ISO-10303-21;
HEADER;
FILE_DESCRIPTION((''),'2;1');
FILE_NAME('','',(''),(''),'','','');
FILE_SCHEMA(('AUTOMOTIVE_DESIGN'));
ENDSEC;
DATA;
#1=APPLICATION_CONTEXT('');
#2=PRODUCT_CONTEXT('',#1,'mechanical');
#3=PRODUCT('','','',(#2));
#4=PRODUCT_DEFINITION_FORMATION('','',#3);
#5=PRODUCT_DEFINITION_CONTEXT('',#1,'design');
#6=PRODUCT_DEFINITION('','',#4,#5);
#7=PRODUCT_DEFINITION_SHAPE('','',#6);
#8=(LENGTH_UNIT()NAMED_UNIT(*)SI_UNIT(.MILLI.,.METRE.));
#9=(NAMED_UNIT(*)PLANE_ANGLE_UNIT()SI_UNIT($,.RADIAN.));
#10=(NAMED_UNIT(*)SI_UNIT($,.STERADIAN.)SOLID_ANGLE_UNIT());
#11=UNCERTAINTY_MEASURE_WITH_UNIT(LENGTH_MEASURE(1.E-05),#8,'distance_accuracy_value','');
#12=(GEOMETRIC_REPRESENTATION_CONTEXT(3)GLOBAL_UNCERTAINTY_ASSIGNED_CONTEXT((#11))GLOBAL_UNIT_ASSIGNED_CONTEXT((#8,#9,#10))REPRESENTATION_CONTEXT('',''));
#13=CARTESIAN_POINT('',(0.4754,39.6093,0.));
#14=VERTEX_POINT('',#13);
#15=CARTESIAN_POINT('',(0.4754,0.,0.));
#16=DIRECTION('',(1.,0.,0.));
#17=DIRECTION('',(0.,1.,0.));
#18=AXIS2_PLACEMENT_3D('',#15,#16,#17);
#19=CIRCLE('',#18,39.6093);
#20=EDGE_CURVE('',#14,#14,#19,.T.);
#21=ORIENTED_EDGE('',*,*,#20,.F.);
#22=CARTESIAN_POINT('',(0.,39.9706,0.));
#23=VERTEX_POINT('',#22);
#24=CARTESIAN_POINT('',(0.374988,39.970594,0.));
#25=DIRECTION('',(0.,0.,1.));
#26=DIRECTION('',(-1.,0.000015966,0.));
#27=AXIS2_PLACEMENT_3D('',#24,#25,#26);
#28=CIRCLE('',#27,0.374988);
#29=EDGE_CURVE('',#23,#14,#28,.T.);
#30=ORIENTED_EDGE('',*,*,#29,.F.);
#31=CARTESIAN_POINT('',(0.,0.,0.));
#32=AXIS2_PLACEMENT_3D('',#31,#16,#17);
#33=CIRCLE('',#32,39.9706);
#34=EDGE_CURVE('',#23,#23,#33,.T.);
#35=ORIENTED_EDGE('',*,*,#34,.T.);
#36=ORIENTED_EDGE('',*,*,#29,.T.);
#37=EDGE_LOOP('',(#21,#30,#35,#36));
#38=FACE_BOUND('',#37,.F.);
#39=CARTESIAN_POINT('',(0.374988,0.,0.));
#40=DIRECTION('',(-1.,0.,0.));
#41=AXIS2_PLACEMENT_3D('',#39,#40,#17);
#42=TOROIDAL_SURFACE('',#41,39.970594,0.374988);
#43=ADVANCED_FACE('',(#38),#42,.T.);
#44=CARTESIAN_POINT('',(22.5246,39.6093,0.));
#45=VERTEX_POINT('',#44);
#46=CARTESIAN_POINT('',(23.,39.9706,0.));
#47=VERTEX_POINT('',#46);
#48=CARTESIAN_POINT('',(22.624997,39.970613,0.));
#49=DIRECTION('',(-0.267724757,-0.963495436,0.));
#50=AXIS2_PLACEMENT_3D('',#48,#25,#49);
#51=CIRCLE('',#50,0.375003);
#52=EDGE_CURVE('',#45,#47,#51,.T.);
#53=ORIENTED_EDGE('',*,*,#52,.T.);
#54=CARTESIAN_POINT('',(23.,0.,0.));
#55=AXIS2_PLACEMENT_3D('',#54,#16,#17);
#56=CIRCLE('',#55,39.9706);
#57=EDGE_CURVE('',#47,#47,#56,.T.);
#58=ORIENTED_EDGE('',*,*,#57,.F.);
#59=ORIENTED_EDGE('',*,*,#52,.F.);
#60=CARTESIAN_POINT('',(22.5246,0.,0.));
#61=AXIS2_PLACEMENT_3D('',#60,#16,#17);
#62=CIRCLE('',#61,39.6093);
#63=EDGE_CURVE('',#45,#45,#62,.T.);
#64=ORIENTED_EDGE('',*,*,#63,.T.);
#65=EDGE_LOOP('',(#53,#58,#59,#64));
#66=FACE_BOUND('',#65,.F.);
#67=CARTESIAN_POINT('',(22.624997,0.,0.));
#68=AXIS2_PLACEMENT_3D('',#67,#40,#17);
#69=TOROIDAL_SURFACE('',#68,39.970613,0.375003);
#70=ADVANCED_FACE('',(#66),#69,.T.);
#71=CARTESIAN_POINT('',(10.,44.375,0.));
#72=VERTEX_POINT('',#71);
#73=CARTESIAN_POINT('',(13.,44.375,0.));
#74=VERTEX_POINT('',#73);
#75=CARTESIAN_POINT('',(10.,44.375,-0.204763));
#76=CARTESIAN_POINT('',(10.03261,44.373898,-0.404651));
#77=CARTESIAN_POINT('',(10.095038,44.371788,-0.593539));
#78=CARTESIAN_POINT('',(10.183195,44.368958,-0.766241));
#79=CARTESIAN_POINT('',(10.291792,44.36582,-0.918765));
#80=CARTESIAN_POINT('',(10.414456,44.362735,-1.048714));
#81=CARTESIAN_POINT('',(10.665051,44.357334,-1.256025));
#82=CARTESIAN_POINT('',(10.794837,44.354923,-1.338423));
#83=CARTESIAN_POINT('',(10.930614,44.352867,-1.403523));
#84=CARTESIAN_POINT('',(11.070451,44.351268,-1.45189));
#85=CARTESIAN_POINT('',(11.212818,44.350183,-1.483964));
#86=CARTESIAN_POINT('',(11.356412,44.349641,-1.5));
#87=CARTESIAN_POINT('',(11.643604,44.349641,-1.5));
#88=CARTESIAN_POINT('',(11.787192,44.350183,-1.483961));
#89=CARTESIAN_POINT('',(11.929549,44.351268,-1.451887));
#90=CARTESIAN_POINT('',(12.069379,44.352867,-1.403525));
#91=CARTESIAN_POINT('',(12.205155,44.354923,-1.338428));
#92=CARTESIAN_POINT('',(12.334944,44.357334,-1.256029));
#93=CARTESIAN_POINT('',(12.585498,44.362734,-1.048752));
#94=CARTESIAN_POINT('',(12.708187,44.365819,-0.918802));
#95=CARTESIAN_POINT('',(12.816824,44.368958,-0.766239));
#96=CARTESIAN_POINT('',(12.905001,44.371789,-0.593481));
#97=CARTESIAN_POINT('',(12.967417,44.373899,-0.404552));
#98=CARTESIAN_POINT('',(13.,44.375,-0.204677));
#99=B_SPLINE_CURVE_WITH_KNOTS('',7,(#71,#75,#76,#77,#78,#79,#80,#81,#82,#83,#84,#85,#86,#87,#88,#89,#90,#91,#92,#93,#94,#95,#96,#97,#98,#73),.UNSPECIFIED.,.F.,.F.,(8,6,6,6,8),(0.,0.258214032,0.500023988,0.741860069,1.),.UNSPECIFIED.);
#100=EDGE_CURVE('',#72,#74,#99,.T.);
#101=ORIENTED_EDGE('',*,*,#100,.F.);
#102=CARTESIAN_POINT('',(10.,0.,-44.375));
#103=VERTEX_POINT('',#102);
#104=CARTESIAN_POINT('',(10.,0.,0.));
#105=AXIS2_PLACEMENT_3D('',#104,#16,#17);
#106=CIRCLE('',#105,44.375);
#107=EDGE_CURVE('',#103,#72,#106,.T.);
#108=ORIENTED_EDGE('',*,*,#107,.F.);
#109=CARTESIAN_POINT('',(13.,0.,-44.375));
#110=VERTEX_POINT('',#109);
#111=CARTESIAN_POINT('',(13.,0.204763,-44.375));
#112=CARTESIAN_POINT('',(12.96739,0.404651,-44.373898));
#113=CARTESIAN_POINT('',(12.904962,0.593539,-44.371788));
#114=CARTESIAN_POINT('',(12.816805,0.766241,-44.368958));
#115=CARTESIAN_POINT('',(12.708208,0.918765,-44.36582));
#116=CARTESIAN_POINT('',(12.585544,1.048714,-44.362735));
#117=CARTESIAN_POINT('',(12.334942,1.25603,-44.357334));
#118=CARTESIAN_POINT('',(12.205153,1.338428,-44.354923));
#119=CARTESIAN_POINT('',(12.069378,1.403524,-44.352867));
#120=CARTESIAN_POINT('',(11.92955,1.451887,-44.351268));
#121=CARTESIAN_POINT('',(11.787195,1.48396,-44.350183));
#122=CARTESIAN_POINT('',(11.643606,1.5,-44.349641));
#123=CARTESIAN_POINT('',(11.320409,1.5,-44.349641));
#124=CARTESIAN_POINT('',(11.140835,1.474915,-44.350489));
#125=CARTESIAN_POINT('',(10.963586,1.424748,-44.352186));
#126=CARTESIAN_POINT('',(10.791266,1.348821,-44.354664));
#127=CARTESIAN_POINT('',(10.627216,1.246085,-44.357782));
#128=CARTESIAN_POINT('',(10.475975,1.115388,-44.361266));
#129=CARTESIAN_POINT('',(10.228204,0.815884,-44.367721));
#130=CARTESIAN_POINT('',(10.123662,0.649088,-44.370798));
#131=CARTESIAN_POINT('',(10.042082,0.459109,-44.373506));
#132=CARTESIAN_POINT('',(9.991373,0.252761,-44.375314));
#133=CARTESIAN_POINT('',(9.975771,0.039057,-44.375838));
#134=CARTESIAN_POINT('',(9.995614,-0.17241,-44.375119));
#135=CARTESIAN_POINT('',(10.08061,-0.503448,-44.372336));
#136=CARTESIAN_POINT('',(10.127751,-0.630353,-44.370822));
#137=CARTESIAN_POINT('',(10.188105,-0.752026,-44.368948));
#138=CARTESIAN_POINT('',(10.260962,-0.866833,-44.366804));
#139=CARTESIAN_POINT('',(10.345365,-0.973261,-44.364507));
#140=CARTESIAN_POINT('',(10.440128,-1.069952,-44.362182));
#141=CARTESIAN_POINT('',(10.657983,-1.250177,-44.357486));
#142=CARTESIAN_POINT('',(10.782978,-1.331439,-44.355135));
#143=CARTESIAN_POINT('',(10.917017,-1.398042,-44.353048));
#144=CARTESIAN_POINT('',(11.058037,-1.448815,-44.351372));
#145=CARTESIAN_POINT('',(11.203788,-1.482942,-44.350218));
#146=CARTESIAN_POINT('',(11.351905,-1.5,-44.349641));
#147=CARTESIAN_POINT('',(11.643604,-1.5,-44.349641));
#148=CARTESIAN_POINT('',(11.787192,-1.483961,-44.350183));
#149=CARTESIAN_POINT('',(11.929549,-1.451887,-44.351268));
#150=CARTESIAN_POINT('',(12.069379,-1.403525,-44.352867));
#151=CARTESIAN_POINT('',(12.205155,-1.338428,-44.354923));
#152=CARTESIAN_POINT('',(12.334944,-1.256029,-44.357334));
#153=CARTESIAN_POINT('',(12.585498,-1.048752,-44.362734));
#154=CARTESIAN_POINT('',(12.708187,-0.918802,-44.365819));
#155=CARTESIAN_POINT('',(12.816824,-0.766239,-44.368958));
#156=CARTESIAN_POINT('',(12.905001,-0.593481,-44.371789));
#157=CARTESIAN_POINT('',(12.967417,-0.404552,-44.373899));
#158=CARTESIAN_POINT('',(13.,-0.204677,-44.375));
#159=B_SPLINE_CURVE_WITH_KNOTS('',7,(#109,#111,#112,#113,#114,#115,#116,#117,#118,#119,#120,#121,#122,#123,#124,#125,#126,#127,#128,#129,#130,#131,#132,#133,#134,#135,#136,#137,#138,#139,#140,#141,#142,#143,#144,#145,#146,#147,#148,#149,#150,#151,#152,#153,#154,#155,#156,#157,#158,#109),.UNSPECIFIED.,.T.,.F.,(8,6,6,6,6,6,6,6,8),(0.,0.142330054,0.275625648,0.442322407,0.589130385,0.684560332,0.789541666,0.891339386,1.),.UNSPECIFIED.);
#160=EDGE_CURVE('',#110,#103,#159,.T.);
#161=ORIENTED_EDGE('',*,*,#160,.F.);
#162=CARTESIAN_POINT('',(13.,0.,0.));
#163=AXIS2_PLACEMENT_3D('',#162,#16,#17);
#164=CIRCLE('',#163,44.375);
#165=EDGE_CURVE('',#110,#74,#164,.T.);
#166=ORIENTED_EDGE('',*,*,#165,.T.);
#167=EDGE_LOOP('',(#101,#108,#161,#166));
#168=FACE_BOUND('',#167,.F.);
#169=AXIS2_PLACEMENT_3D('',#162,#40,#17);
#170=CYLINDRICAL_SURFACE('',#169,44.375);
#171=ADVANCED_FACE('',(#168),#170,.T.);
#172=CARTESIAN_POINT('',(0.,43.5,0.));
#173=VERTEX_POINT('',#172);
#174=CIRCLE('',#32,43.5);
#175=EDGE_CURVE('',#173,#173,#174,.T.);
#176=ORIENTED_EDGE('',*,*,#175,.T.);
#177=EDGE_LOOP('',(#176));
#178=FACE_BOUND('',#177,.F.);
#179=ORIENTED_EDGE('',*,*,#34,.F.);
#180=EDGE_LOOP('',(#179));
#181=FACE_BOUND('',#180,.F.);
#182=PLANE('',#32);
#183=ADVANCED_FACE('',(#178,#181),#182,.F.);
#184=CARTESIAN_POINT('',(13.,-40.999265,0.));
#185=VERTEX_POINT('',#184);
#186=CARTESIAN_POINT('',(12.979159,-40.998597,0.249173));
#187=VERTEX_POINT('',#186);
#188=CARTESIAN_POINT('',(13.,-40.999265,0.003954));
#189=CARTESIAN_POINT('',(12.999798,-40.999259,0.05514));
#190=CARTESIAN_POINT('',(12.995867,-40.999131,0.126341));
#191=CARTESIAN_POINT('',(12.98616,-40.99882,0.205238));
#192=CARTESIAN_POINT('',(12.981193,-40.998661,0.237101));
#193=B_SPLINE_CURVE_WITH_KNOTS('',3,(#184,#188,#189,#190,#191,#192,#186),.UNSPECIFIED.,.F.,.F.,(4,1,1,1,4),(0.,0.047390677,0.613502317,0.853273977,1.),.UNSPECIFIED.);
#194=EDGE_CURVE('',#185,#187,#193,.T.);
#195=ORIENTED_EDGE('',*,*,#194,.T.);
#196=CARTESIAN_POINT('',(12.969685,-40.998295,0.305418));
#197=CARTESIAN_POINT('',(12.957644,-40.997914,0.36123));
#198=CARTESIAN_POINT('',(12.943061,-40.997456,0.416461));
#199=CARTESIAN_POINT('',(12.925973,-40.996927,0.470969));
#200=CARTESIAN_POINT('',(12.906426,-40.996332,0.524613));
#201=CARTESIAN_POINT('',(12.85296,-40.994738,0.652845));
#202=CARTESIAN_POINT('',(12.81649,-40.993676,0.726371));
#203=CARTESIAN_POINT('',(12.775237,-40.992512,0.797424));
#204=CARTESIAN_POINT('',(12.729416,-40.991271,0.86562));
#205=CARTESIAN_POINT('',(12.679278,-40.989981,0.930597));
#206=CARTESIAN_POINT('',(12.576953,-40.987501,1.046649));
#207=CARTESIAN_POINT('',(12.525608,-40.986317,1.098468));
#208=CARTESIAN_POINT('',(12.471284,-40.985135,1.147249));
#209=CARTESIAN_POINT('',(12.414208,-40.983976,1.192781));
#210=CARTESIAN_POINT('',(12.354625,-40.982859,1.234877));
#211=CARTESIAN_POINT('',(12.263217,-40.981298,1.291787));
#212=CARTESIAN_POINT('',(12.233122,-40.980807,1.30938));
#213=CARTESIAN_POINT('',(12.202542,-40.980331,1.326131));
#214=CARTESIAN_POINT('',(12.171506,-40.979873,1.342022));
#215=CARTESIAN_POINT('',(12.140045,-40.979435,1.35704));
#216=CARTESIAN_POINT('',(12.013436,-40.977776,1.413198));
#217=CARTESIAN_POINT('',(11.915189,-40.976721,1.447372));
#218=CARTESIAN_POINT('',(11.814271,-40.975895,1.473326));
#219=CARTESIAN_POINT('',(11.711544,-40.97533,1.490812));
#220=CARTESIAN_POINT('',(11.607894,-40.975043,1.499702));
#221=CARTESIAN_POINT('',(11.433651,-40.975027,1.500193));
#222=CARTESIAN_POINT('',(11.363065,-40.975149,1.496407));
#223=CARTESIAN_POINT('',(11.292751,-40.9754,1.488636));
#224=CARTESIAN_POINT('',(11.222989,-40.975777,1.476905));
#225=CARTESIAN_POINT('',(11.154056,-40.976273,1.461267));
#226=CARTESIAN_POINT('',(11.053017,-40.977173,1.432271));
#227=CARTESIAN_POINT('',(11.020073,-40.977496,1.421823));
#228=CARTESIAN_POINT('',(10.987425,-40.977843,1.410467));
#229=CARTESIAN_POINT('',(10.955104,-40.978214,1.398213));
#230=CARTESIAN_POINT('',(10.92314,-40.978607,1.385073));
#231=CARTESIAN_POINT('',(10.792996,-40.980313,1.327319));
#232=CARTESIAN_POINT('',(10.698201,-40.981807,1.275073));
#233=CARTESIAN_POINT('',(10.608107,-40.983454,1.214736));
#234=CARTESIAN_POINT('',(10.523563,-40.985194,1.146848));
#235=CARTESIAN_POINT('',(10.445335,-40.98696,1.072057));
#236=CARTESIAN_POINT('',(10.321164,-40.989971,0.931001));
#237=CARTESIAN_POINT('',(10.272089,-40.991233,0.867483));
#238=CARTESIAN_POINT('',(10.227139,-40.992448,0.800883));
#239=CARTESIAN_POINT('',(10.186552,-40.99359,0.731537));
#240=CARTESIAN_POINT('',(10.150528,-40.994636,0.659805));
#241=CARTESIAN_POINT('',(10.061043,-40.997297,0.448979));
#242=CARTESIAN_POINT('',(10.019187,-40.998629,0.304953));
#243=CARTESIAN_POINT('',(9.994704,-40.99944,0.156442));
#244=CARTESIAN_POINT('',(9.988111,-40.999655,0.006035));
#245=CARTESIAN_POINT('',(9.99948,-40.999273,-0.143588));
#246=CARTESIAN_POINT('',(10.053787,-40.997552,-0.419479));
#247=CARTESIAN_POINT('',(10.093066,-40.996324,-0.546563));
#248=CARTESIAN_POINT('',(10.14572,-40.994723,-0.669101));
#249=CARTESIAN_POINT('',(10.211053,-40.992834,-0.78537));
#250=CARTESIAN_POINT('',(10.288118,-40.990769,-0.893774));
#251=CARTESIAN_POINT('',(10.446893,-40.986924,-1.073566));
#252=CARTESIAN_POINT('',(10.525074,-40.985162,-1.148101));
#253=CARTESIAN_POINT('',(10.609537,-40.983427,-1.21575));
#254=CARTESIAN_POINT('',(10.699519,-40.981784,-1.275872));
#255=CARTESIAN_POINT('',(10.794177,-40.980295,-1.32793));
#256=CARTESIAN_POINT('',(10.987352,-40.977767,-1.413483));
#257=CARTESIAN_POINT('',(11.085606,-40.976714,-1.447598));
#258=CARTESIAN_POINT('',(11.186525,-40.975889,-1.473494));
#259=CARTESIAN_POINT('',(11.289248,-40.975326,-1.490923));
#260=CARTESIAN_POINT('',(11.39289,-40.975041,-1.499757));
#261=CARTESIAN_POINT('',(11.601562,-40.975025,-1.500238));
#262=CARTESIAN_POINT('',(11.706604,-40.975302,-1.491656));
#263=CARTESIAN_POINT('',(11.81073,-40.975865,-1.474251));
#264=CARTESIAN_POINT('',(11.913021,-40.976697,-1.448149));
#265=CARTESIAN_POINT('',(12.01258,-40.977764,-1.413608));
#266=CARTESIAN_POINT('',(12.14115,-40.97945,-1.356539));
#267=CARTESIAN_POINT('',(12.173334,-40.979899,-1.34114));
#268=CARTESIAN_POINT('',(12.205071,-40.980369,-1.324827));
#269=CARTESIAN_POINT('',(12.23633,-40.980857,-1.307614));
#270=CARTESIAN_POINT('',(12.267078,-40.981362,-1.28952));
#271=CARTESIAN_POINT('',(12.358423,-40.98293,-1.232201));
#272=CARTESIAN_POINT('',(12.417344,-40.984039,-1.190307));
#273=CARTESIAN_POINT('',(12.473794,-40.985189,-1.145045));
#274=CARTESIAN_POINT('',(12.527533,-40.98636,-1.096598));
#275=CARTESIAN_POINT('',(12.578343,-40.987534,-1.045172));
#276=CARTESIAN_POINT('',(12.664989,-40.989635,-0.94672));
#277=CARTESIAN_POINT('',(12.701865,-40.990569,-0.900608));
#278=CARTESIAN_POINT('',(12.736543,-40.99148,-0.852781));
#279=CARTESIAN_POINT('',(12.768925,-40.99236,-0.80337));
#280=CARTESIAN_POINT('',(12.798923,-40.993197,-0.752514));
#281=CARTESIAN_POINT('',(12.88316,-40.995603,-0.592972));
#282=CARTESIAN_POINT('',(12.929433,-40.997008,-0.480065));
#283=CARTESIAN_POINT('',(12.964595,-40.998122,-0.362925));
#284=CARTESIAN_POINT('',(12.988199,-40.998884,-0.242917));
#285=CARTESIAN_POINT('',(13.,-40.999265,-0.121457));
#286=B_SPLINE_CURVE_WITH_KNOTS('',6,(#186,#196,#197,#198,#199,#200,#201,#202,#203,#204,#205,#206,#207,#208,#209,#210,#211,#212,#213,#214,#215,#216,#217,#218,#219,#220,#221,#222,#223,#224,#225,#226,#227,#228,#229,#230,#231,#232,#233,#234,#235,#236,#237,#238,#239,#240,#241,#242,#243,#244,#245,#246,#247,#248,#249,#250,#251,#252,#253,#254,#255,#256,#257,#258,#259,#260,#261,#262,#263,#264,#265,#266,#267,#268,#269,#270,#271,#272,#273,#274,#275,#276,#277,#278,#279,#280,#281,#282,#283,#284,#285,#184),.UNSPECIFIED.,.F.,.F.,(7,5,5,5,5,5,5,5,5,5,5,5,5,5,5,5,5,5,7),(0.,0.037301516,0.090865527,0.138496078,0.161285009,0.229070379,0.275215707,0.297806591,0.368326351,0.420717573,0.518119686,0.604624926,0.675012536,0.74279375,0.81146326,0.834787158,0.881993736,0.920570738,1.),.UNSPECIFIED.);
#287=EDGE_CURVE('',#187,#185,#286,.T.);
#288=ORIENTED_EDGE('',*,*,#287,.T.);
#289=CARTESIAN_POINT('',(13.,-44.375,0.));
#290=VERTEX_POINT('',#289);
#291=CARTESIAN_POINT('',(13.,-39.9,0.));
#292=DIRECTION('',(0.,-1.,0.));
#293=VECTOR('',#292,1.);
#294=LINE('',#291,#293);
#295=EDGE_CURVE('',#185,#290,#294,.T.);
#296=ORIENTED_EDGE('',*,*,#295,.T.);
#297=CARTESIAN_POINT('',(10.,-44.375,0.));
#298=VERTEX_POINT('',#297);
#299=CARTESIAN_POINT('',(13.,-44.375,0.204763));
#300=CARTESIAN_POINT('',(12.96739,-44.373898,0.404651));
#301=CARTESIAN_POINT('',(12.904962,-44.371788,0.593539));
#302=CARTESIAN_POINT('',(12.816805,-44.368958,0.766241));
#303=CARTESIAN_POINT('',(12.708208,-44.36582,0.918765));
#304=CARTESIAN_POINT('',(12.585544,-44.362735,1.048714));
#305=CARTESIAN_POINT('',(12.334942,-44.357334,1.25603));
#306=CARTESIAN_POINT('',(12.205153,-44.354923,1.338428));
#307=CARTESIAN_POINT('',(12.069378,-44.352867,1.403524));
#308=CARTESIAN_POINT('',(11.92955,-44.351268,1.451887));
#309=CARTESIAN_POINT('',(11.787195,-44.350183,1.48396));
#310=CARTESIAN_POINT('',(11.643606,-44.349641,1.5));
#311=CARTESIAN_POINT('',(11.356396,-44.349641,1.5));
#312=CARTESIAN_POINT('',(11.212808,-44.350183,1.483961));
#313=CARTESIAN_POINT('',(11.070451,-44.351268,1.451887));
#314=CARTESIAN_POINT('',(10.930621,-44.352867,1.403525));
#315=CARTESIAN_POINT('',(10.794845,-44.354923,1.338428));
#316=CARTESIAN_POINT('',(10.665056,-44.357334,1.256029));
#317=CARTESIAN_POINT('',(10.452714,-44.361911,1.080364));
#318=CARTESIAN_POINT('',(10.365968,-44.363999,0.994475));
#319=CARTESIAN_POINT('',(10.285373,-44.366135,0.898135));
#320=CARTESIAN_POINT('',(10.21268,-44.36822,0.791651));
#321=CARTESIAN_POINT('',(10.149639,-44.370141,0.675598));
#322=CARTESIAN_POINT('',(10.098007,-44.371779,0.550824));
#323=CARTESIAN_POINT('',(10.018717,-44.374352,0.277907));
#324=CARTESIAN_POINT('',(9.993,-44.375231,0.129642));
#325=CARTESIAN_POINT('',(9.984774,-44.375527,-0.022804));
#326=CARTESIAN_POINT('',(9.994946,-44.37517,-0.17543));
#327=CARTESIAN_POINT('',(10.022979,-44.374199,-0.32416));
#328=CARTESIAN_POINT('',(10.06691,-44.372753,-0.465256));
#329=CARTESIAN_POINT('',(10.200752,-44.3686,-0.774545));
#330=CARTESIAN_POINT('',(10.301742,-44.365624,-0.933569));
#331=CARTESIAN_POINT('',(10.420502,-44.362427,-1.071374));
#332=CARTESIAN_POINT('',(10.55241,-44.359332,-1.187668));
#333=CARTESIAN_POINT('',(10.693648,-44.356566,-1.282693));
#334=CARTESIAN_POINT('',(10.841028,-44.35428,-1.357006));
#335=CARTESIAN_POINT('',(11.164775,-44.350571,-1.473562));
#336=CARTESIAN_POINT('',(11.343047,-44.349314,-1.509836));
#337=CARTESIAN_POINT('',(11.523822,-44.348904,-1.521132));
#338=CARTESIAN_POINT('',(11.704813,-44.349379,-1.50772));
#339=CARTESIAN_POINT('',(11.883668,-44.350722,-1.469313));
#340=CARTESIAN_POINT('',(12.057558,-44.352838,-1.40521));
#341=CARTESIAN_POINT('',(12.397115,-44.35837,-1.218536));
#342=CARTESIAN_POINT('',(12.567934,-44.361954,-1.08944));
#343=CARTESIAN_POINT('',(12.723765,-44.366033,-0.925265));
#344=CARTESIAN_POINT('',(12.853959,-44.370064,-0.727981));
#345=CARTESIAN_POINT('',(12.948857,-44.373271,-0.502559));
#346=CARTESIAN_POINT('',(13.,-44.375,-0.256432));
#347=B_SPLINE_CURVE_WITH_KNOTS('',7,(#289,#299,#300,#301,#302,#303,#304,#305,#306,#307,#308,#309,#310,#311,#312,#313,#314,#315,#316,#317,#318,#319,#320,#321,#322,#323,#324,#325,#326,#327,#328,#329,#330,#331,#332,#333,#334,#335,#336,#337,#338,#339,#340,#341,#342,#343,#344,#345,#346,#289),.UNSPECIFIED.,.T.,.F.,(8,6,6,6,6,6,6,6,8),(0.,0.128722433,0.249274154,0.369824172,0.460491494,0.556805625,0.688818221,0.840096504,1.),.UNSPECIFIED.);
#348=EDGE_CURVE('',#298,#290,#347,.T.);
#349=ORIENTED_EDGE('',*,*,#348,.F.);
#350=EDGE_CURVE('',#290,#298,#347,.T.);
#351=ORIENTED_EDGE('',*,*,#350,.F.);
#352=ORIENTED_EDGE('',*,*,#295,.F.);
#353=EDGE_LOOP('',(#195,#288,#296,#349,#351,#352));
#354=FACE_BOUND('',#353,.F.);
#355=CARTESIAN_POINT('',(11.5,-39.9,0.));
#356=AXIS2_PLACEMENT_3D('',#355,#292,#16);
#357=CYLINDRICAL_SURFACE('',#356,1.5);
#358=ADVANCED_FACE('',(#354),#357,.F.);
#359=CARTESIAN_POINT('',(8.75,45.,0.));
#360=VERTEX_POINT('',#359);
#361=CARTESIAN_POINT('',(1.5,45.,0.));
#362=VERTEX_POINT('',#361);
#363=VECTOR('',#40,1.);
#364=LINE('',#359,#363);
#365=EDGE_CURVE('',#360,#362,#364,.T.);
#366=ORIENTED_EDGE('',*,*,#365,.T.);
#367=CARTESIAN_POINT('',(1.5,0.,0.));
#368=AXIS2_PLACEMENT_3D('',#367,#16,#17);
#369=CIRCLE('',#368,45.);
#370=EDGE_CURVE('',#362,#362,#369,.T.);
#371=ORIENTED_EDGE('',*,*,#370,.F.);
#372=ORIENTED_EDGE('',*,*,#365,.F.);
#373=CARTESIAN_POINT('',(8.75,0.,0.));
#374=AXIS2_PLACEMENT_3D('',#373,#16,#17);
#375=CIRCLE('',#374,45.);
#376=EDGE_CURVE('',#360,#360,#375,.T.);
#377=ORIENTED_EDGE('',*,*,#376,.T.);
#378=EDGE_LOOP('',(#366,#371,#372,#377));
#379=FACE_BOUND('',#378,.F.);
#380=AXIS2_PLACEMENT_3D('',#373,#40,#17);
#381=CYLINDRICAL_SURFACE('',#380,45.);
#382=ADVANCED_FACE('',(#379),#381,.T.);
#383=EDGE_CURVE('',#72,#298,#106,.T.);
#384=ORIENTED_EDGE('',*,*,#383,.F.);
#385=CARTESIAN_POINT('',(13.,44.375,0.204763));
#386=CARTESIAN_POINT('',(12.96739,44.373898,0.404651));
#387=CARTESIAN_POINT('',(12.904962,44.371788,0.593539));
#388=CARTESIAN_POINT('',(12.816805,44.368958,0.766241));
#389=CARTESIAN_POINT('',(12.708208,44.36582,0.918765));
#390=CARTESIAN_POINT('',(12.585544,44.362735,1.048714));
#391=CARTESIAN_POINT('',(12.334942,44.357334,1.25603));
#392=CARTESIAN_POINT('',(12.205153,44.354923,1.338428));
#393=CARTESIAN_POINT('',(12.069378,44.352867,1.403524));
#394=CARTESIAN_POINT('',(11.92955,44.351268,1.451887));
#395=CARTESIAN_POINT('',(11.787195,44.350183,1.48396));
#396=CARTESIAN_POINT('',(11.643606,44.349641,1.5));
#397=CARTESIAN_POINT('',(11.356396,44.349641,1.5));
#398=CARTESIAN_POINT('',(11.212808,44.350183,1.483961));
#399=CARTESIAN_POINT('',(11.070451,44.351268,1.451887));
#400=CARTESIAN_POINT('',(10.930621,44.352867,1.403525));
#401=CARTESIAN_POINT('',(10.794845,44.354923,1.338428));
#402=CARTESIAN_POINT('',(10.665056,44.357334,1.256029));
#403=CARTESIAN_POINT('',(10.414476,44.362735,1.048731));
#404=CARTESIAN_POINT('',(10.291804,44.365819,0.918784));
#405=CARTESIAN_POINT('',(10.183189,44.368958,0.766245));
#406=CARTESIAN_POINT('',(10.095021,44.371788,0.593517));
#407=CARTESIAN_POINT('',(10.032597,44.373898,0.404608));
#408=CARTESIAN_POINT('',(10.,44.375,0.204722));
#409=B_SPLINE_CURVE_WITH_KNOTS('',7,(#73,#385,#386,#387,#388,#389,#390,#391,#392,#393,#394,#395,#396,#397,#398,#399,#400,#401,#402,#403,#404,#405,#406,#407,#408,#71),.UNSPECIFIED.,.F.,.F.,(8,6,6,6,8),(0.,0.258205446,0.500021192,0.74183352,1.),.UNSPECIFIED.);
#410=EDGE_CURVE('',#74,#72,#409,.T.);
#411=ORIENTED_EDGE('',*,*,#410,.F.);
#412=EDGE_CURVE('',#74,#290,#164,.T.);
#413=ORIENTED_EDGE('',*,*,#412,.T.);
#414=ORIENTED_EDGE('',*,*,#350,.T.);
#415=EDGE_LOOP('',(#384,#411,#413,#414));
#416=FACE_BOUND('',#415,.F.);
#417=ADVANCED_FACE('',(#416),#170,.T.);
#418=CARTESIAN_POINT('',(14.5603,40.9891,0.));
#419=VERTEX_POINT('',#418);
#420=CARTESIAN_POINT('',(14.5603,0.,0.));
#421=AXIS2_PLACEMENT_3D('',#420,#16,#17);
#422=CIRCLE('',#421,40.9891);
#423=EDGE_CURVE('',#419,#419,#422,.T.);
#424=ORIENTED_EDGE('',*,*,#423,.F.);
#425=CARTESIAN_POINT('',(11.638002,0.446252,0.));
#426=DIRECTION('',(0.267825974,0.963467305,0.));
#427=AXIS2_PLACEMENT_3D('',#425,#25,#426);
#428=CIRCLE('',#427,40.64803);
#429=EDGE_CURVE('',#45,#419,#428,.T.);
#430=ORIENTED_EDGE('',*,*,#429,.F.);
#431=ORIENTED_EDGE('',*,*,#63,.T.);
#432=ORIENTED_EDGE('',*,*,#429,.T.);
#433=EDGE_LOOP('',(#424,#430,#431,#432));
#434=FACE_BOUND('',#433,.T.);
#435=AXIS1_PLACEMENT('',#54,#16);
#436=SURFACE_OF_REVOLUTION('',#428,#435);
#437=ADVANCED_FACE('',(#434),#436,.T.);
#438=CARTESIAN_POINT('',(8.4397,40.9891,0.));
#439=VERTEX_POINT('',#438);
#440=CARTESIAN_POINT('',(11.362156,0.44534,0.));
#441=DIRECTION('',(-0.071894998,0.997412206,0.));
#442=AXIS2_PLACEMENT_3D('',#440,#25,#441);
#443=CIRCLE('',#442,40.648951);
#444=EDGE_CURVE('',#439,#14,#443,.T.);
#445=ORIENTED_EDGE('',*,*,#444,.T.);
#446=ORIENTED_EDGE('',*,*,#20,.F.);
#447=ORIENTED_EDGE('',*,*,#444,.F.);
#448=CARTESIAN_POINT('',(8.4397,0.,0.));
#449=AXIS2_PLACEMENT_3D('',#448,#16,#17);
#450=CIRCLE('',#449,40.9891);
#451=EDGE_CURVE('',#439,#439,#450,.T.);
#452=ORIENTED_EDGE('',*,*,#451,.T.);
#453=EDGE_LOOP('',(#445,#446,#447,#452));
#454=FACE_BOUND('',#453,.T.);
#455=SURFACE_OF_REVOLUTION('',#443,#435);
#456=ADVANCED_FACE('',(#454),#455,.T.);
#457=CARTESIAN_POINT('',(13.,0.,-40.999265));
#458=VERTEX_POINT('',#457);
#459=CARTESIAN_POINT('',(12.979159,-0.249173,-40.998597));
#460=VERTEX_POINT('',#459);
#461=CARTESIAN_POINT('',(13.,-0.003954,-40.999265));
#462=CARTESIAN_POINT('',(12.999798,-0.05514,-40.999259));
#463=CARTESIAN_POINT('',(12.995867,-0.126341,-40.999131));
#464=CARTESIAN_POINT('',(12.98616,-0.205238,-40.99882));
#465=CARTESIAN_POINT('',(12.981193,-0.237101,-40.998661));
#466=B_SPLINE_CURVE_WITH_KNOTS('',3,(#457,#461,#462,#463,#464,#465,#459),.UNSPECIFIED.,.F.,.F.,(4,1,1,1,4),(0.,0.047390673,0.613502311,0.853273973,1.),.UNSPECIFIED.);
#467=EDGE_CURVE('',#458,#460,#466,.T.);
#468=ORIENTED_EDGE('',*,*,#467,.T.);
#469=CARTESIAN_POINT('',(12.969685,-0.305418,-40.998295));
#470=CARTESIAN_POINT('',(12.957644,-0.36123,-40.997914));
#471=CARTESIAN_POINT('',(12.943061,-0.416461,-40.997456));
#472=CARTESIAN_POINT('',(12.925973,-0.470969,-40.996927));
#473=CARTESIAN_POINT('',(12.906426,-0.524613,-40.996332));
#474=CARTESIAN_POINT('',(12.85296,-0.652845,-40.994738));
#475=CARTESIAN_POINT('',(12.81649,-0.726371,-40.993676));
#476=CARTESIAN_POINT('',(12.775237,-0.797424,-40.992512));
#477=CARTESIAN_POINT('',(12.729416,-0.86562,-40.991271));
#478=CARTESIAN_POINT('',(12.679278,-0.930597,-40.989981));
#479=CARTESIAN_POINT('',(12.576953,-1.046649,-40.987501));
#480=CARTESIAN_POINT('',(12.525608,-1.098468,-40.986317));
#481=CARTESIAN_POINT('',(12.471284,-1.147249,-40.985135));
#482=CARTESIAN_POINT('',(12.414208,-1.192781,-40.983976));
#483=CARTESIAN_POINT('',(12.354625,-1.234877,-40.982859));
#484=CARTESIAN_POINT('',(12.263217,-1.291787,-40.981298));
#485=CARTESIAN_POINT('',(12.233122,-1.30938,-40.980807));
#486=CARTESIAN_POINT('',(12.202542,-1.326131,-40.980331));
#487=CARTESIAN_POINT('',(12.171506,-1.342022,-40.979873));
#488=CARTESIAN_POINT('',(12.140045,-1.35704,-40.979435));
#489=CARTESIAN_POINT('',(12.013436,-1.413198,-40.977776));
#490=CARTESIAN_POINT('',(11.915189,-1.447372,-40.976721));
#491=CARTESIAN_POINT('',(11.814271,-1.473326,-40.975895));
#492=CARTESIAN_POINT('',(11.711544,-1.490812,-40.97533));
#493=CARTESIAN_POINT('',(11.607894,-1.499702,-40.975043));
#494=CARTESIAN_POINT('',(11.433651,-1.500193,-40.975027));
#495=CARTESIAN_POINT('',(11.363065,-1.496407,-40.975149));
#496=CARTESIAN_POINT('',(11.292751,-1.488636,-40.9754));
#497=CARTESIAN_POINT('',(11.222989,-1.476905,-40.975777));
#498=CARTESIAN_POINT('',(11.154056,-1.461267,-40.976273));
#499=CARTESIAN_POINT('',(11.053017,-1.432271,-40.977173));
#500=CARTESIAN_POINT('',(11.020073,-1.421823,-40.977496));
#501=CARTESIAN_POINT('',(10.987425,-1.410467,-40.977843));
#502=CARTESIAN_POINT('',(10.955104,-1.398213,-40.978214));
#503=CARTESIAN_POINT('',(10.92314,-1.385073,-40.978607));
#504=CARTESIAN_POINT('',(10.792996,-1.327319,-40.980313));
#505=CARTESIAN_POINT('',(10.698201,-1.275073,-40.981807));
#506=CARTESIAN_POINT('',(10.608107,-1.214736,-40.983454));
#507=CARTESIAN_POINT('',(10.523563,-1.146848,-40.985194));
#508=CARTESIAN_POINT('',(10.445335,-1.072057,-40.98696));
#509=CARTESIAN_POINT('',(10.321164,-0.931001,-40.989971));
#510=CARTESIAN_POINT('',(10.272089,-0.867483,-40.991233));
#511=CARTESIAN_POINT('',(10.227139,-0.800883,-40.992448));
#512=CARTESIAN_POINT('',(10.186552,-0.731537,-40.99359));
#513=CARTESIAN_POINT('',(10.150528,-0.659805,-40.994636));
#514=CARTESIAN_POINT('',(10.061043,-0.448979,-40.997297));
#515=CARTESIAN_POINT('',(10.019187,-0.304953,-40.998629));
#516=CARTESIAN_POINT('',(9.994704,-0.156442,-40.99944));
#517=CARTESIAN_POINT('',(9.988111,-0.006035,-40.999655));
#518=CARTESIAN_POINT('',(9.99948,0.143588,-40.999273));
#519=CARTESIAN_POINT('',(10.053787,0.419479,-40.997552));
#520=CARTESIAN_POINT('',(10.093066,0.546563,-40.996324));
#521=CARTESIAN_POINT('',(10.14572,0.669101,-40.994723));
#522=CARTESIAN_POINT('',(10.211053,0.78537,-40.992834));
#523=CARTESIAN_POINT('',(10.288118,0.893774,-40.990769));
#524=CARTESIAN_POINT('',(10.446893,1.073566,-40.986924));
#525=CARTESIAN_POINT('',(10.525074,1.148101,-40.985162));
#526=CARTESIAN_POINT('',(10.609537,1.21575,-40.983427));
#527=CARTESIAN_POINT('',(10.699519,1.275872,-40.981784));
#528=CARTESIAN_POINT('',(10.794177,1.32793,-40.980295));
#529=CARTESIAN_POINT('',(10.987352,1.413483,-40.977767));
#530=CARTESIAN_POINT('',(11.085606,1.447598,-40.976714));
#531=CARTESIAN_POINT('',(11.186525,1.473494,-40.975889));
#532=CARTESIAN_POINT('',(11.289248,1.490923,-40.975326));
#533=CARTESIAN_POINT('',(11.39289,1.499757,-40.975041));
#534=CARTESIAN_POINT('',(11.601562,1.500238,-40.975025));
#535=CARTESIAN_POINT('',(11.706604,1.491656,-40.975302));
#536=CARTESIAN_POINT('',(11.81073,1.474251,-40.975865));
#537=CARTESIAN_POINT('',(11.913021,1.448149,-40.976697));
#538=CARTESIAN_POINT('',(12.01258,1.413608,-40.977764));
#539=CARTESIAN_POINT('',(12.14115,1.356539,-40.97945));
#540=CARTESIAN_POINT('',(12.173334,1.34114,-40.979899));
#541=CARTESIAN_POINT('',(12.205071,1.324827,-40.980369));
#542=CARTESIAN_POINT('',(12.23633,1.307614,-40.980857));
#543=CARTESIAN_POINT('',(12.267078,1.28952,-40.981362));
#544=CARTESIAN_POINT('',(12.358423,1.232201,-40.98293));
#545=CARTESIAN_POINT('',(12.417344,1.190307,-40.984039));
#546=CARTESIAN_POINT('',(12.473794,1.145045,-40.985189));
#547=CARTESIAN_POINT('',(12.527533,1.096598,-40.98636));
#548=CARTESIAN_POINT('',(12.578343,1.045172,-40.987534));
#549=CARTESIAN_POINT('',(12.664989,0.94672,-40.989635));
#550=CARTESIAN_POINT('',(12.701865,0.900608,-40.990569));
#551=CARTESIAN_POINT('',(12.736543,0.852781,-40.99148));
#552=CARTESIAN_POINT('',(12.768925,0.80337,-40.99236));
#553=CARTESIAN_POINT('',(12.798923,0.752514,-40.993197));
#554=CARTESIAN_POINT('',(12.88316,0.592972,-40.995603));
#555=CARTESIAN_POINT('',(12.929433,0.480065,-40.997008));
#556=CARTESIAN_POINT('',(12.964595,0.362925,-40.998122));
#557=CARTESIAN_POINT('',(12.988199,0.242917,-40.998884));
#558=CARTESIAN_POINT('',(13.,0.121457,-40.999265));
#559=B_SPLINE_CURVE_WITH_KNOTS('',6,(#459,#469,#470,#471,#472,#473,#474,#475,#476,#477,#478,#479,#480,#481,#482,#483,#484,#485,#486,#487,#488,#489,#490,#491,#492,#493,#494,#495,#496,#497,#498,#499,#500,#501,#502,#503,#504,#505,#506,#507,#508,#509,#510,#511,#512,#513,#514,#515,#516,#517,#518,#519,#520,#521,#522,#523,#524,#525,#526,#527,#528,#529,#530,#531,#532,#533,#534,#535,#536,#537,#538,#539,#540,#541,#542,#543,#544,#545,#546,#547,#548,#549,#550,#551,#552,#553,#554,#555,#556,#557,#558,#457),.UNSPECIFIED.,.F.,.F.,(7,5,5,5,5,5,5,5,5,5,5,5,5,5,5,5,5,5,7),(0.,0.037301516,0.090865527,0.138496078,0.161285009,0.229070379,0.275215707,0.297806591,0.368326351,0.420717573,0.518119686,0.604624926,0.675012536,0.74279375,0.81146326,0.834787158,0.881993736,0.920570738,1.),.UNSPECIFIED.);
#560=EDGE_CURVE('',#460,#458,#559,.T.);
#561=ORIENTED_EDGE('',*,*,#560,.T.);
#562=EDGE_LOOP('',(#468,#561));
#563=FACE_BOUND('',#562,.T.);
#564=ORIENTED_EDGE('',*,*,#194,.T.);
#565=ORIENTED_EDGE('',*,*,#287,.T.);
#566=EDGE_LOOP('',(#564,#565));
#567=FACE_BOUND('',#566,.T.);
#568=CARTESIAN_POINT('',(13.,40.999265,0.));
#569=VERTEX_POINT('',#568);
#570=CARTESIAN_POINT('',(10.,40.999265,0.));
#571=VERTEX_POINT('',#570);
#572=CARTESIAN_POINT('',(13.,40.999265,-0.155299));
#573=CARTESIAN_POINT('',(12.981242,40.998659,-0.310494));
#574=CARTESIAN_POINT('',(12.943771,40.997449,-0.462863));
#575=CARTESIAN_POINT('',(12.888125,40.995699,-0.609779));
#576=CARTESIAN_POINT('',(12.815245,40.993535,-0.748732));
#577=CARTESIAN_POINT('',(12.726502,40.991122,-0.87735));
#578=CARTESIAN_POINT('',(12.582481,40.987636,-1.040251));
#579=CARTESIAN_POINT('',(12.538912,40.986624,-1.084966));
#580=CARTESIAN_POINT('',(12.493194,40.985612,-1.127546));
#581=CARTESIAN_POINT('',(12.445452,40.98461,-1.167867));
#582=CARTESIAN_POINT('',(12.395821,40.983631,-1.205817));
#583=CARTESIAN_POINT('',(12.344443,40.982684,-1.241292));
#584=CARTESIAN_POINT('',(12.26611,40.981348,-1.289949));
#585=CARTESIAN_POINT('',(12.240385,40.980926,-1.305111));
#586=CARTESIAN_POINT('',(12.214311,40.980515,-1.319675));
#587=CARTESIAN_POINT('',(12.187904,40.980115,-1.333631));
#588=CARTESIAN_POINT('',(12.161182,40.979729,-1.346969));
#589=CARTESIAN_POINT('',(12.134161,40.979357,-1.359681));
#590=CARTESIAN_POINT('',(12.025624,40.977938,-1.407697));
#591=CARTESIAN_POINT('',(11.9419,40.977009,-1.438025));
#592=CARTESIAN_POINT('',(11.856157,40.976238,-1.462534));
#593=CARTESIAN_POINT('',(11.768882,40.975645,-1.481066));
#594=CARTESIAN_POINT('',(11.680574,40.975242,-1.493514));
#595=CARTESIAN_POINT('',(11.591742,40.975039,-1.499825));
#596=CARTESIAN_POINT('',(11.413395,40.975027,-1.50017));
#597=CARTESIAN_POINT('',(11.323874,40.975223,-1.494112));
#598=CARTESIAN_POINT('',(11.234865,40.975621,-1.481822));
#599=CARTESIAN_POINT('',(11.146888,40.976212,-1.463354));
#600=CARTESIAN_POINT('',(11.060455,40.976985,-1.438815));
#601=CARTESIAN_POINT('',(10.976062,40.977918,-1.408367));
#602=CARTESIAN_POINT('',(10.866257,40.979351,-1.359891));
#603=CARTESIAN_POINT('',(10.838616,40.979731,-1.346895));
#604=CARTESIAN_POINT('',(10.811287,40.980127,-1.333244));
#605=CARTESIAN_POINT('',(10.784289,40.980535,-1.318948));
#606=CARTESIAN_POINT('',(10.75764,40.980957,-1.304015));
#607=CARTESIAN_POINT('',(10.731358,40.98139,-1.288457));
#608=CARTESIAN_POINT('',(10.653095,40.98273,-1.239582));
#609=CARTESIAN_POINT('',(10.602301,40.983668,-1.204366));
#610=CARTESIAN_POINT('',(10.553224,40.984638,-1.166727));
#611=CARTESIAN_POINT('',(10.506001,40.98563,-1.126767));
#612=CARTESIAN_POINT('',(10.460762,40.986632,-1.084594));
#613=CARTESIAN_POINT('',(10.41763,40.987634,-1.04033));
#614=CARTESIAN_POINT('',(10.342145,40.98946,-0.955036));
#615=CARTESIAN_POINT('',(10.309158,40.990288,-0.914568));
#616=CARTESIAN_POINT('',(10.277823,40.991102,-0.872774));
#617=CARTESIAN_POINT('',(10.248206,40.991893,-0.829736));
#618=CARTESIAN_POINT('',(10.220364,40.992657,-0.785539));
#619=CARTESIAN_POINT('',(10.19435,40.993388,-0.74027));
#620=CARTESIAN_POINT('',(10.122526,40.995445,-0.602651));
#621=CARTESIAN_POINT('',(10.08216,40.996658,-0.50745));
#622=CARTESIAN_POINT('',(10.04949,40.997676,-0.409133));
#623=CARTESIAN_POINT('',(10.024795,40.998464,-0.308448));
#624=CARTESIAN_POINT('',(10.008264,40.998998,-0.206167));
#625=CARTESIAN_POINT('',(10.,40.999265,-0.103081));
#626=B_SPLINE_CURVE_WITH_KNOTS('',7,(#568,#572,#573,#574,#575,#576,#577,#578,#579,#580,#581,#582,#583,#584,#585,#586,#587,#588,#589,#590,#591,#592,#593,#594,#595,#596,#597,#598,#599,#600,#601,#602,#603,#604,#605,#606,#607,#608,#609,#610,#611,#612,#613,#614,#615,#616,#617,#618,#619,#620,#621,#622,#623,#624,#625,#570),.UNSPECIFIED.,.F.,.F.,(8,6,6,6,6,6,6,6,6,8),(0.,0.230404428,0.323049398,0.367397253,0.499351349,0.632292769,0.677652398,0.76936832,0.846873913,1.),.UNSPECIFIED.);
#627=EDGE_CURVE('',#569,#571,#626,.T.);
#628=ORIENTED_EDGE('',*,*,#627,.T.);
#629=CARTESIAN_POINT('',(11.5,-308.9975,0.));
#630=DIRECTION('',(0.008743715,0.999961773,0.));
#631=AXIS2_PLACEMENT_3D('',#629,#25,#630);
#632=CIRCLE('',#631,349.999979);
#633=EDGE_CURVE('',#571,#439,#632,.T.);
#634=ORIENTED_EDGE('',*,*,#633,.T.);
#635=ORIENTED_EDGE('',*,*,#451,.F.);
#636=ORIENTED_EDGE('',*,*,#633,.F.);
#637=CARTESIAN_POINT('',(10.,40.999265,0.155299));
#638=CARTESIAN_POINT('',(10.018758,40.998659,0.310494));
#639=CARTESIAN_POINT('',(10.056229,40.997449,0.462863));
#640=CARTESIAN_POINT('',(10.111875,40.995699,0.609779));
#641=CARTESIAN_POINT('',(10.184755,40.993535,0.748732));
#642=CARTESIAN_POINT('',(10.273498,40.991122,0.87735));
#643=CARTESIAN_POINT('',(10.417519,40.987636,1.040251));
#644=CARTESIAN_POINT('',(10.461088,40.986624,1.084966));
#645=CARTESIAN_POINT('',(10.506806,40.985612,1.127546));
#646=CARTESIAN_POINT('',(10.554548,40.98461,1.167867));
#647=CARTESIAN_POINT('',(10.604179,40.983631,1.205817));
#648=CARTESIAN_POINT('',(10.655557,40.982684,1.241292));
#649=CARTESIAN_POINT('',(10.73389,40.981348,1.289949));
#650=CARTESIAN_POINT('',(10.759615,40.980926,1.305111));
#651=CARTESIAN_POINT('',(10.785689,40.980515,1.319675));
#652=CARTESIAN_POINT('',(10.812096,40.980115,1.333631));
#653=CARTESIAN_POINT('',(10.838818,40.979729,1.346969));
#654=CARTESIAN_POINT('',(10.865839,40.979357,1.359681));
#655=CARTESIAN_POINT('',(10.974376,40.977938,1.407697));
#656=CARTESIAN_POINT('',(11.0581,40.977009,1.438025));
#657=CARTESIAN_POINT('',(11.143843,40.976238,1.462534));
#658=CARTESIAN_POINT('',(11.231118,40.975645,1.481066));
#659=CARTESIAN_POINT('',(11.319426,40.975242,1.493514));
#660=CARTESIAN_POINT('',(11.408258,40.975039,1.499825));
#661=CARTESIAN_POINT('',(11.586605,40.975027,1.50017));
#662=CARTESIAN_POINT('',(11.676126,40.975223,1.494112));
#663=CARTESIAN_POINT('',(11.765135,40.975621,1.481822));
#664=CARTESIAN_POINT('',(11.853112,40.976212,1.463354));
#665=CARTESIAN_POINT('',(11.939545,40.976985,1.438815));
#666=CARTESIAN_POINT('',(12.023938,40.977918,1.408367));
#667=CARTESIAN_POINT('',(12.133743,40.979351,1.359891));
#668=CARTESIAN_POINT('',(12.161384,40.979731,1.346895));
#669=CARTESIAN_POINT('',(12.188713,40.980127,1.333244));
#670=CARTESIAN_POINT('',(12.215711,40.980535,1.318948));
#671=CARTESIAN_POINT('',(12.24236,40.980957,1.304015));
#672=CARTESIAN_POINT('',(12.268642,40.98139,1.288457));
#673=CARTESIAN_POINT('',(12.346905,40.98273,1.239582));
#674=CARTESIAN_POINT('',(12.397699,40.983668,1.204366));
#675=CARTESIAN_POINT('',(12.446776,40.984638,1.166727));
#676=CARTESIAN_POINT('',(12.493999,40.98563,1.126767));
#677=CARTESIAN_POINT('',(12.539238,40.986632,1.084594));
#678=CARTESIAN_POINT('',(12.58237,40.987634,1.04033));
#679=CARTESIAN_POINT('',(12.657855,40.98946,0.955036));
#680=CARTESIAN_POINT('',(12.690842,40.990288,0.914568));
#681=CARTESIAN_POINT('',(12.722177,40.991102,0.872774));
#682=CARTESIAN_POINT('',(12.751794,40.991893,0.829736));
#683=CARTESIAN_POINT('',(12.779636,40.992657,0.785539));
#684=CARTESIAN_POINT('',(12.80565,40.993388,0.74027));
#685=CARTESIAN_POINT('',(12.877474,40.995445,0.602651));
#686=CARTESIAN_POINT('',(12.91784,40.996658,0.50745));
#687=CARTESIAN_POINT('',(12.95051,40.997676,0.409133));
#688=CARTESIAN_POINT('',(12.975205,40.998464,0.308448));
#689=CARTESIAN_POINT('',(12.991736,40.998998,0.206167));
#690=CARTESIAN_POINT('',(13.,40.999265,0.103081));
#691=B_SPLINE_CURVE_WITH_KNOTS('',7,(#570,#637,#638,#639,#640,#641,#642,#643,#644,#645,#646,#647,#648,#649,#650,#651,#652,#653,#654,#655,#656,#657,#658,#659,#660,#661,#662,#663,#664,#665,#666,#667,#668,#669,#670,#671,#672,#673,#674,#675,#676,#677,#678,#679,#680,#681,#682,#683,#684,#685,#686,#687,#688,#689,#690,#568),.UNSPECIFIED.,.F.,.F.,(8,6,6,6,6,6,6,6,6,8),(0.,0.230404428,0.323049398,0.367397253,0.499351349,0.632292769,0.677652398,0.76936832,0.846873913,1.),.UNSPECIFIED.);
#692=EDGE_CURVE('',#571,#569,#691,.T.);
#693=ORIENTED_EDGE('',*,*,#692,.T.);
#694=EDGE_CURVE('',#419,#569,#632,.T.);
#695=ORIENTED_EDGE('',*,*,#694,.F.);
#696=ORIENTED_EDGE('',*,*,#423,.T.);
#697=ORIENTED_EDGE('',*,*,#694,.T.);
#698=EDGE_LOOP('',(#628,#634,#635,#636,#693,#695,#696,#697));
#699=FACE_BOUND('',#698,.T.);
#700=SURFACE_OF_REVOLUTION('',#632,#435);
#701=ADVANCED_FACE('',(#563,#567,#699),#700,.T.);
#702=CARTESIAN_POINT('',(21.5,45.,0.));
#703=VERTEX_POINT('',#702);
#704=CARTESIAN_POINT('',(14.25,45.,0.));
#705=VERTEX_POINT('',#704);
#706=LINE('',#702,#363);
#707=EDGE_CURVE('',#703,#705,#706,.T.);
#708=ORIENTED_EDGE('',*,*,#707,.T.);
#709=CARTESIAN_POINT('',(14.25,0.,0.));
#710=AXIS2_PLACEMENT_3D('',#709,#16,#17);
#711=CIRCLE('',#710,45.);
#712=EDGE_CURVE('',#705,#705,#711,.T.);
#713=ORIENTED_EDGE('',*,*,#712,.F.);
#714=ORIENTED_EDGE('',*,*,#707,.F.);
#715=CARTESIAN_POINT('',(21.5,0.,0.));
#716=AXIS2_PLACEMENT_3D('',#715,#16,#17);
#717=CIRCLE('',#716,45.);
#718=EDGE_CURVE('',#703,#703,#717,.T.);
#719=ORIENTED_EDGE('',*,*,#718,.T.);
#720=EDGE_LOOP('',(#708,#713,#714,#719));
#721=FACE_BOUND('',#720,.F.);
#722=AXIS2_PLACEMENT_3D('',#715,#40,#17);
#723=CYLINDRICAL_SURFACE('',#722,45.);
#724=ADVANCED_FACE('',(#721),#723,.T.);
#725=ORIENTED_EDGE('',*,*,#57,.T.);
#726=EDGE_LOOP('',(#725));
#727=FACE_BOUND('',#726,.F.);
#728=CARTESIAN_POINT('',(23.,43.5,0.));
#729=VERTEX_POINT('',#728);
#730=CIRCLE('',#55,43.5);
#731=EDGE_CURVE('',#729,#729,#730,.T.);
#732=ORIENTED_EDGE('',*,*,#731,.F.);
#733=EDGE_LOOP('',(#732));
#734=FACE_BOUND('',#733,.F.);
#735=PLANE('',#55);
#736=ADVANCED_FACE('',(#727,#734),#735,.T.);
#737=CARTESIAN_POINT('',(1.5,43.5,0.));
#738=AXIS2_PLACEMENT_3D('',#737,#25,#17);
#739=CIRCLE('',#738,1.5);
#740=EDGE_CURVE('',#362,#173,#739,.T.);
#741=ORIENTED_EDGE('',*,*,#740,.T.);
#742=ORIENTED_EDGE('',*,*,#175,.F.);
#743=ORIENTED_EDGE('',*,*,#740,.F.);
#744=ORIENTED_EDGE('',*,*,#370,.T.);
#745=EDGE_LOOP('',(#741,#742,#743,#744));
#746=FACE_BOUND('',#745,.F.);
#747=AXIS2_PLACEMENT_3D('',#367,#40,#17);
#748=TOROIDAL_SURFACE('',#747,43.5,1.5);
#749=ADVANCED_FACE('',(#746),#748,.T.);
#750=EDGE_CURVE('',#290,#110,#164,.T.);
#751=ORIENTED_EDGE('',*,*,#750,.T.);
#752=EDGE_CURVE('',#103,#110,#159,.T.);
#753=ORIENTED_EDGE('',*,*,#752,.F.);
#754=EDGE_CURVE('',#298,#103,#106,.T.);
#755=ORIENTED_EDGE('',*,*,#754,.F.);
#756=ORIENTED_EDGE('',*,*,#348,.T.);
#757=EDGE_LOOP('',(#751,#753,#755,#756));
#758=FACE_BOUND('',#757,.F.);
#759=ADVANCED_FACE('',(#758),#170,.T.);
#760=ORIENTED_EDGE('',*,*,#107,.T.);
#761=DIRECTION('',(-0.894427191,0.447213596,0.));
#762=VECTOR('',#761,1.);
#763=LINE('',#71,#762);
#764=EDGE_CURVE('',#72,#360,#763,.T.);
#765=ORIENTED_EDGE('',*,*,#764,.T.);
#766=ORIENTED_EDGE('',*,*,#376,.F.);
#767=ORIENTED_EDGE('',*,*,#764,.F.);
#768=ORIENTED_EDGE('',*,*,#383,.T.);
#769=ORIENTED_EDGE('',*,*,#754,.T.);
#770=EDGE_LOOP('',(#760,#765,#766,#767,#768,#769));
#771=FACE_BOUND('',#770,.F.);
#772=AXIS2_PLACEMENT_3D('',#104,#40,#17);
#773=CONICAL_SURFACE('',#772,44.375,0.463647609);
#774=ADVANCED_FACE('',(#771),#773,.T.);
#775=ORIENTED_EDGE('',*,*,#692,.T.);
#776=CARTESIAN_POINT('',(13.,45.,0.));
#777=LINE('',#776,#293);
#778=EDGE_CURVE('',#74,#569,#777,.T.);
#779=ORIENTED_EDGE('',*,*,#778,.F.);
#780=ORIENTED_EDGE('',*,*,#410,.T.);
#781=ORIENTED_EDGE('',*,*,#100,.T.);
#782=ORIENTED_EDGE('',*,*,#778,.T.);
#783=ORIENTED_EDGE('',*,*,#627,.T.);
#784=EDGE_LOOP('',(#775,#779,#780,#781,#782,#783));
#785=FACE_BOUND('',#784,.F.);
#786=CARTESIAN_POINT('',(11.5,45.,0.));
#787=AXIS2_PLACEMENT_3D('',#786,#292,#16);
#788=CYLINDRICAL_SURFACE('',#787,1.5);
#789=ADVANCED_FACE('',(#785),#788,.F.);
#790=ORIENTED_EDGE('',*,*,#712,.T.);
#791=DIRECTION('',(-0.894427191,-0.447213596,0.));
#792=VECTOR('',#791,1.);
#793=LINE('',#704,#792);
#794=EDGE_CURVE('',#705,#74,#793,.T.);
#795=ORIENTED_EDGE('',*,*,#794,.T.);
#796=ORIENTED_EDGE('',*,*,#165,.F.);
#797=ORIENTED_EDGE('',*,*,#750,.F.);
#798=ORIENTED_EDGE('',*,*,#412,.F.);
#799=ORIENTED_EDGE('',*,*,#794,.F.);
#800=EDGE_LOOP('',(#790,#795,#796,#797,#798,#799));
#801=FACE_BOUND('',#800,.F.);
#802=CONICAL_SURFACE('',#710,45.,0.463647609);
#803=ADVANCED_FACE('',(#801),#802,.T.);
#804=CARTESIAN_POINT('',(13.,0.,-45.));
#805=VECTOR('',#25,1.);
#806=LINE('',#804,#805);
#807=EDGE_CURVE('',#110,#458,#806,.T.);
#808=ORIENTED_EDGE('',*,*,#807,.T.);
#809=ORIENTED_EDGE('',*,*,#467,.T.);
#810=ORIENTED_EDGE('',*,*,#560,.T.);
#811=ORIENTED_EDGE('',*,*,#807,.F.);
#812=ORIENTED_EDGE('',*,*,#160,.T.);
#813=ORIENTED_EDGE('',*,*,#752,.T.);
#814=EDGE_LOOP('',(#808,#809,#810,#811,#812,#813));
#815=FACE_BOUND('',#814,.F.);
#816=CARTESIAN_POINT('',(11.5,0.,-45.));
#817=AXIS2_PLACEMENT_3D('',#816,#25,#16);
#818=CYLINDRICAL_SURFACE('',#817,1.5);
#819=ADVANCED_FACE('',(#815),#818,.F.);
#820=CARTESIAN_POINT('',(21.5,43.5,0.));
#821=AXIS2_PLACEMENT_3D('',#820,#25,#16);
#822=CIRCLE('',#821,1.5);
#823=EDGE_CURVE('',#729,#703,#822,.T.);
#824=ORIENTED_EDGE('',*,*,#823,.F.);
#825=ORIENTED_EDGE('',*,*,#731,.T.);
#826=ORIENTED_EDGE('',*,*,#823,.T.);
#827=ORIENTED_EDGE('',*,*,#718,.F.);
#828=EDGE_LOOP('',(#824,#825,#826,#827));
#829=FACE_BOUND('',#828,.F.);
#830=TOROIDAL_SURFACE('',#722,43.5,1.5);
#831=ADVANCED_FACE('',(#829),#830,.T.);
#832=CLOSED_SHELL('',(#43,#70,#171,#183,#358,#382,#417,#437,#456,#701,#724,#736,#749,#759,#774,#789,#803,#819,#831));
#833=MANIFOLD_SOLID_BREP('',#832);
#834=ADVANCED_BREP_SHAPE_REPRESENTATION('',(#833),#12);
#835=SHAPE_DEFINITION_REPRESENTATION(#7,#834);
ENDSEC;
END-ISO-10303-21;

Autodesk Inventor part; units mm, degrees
sketch "Sketch_5" plane through (0, 0, 0) normal (0, 0, 1) x (1, 0, 0)
  line L0 (23, 0) -> (-23, 0)
  arc A0 (0, 39.9706) -> (0.4754, 39.6093) centre (0.375, 39.9706) ccw
  arc A1 (8.4397, 40.9891) -> (0.4754, 39.6093) centre (11.3621, 0.4458) ccw
  arc A2 (14.5603, 40.9891) -> (8.4397, 40.9891) centre (11.5, -308.9975) ccw
  arc A3 (22.5246, 39.6093) -> (14.5603, 40.9891) centre (11.6379, 0.4458) ccw
  arc A4 (22.5246, 39.6093) -> (23, 39.9706) centre (22.625, 39.9706) ccw
  line L1 (23, 39.9706) -> (23, 43.5)
  arc A5 (23, 43.5) -> (21.5, 45) centre (21.5, 43.5) ccw
  line L2 (21.5, 45) -> (14.25, 45)
  line L3 (14.25, 45) -> (13, 44.375)
  line L4 (13, 44.375) -> (10, 44.375)
  line L5 (10, 44.375) -> (8.75, 45)
  line L6 (8.75, 45) -> (1.5, 45)
  arc A6 (1.5, 45) -> (0, 43.5) centre (1.5, 43.5) ccw
  line L7 (0, 43.5) -> (0, 39.9706)
revolve "Revolution1" add sketch "Sketch_5" angle 360 about axis through (23, 0, 0) along (1, 0, 0)
sketch "Sketch_2" plane through (0, 0, 0) normal (0, 0, 1) x (1, 0, 0)
  line L0 (11.5, -45) -> (11.5, -39.9)
  line L1 (11.5, -39.9) -> (13, -39.9)
  line L2 (13, -39.9) -> (13, -45)
  line L3 (13, -45) -> (11.5, -45)
  line L4 (11.5, -45) -> (11.5, -39.9)
revolve "Revolution2" cut sketch "Sketch_2" angle 360 about axis through (11.5, -45, 0) along (0, -1, 0)
sketch "Sketch_9" plane through (0, 0, 0) normal (0, 1, 0) x (-1, 0, 0)
  line L0 (-11.5, -39.9) -> (-11.5, -45)
  line L1 (-11.5, -45) -> (-13, -45)
  line L2 (-13, -45) -> (-13, -39.9)
  line L3 (-13, -39.9) -> (-11.5, -39.9)
  line L4 (-11.5, -39.9) -> (-11.5, -45)
revolve "Revolution3" cut sketch "Sketch_9" angle 360 about axis through (11.5, 0, -39.9) along (0, 0, 1)
sketch "Sketch_10" plane through (0, 0, 0) normal (0, 0, 1) x (1, 0, 0)
  line L0 (11.5, 39.9) -> (11.5, 45)
  line L1 (11.5, 45) -> (13, 45)
  line L2 (13, 45) -> (13, 39.9)
  line L3 (13, 39.9) -> (11.5, 39.9)
  line L4 (11.5, 39.9) -> (11.5, 45)
revolve "Revolution4" cut sketch "Sketch_10" angle 360 about axis through (11.5, 39.9, 0) along (0, -1, 0)
ref_plane "NO_GEO_XY" through (0, 0, 0) normal (1, 0, 0) x (0, 0, -1)
ref_plane "NO_GEO_YZ" through (0, 0, 0) normal (0, 0, -1) x (0, 1, 0)
ref_plane "NO_GEO_ZX" through (0, 0, 0) normal (0, 1, 0) x (1, 0, 0)
ref_plane "or_XY" through (0, 0, 0) normal (0, 0, 1) x (1, 0, 0)
ref_plane "or_YZ" through (0, 0, 0) normal (1, 0, 0) x (0, 1, 0)
ref_plane "or_ZX" through (0, 0, 0) normal (0, 1, 0) x (0, 0, 1)
properties part number "21308 E_or"
